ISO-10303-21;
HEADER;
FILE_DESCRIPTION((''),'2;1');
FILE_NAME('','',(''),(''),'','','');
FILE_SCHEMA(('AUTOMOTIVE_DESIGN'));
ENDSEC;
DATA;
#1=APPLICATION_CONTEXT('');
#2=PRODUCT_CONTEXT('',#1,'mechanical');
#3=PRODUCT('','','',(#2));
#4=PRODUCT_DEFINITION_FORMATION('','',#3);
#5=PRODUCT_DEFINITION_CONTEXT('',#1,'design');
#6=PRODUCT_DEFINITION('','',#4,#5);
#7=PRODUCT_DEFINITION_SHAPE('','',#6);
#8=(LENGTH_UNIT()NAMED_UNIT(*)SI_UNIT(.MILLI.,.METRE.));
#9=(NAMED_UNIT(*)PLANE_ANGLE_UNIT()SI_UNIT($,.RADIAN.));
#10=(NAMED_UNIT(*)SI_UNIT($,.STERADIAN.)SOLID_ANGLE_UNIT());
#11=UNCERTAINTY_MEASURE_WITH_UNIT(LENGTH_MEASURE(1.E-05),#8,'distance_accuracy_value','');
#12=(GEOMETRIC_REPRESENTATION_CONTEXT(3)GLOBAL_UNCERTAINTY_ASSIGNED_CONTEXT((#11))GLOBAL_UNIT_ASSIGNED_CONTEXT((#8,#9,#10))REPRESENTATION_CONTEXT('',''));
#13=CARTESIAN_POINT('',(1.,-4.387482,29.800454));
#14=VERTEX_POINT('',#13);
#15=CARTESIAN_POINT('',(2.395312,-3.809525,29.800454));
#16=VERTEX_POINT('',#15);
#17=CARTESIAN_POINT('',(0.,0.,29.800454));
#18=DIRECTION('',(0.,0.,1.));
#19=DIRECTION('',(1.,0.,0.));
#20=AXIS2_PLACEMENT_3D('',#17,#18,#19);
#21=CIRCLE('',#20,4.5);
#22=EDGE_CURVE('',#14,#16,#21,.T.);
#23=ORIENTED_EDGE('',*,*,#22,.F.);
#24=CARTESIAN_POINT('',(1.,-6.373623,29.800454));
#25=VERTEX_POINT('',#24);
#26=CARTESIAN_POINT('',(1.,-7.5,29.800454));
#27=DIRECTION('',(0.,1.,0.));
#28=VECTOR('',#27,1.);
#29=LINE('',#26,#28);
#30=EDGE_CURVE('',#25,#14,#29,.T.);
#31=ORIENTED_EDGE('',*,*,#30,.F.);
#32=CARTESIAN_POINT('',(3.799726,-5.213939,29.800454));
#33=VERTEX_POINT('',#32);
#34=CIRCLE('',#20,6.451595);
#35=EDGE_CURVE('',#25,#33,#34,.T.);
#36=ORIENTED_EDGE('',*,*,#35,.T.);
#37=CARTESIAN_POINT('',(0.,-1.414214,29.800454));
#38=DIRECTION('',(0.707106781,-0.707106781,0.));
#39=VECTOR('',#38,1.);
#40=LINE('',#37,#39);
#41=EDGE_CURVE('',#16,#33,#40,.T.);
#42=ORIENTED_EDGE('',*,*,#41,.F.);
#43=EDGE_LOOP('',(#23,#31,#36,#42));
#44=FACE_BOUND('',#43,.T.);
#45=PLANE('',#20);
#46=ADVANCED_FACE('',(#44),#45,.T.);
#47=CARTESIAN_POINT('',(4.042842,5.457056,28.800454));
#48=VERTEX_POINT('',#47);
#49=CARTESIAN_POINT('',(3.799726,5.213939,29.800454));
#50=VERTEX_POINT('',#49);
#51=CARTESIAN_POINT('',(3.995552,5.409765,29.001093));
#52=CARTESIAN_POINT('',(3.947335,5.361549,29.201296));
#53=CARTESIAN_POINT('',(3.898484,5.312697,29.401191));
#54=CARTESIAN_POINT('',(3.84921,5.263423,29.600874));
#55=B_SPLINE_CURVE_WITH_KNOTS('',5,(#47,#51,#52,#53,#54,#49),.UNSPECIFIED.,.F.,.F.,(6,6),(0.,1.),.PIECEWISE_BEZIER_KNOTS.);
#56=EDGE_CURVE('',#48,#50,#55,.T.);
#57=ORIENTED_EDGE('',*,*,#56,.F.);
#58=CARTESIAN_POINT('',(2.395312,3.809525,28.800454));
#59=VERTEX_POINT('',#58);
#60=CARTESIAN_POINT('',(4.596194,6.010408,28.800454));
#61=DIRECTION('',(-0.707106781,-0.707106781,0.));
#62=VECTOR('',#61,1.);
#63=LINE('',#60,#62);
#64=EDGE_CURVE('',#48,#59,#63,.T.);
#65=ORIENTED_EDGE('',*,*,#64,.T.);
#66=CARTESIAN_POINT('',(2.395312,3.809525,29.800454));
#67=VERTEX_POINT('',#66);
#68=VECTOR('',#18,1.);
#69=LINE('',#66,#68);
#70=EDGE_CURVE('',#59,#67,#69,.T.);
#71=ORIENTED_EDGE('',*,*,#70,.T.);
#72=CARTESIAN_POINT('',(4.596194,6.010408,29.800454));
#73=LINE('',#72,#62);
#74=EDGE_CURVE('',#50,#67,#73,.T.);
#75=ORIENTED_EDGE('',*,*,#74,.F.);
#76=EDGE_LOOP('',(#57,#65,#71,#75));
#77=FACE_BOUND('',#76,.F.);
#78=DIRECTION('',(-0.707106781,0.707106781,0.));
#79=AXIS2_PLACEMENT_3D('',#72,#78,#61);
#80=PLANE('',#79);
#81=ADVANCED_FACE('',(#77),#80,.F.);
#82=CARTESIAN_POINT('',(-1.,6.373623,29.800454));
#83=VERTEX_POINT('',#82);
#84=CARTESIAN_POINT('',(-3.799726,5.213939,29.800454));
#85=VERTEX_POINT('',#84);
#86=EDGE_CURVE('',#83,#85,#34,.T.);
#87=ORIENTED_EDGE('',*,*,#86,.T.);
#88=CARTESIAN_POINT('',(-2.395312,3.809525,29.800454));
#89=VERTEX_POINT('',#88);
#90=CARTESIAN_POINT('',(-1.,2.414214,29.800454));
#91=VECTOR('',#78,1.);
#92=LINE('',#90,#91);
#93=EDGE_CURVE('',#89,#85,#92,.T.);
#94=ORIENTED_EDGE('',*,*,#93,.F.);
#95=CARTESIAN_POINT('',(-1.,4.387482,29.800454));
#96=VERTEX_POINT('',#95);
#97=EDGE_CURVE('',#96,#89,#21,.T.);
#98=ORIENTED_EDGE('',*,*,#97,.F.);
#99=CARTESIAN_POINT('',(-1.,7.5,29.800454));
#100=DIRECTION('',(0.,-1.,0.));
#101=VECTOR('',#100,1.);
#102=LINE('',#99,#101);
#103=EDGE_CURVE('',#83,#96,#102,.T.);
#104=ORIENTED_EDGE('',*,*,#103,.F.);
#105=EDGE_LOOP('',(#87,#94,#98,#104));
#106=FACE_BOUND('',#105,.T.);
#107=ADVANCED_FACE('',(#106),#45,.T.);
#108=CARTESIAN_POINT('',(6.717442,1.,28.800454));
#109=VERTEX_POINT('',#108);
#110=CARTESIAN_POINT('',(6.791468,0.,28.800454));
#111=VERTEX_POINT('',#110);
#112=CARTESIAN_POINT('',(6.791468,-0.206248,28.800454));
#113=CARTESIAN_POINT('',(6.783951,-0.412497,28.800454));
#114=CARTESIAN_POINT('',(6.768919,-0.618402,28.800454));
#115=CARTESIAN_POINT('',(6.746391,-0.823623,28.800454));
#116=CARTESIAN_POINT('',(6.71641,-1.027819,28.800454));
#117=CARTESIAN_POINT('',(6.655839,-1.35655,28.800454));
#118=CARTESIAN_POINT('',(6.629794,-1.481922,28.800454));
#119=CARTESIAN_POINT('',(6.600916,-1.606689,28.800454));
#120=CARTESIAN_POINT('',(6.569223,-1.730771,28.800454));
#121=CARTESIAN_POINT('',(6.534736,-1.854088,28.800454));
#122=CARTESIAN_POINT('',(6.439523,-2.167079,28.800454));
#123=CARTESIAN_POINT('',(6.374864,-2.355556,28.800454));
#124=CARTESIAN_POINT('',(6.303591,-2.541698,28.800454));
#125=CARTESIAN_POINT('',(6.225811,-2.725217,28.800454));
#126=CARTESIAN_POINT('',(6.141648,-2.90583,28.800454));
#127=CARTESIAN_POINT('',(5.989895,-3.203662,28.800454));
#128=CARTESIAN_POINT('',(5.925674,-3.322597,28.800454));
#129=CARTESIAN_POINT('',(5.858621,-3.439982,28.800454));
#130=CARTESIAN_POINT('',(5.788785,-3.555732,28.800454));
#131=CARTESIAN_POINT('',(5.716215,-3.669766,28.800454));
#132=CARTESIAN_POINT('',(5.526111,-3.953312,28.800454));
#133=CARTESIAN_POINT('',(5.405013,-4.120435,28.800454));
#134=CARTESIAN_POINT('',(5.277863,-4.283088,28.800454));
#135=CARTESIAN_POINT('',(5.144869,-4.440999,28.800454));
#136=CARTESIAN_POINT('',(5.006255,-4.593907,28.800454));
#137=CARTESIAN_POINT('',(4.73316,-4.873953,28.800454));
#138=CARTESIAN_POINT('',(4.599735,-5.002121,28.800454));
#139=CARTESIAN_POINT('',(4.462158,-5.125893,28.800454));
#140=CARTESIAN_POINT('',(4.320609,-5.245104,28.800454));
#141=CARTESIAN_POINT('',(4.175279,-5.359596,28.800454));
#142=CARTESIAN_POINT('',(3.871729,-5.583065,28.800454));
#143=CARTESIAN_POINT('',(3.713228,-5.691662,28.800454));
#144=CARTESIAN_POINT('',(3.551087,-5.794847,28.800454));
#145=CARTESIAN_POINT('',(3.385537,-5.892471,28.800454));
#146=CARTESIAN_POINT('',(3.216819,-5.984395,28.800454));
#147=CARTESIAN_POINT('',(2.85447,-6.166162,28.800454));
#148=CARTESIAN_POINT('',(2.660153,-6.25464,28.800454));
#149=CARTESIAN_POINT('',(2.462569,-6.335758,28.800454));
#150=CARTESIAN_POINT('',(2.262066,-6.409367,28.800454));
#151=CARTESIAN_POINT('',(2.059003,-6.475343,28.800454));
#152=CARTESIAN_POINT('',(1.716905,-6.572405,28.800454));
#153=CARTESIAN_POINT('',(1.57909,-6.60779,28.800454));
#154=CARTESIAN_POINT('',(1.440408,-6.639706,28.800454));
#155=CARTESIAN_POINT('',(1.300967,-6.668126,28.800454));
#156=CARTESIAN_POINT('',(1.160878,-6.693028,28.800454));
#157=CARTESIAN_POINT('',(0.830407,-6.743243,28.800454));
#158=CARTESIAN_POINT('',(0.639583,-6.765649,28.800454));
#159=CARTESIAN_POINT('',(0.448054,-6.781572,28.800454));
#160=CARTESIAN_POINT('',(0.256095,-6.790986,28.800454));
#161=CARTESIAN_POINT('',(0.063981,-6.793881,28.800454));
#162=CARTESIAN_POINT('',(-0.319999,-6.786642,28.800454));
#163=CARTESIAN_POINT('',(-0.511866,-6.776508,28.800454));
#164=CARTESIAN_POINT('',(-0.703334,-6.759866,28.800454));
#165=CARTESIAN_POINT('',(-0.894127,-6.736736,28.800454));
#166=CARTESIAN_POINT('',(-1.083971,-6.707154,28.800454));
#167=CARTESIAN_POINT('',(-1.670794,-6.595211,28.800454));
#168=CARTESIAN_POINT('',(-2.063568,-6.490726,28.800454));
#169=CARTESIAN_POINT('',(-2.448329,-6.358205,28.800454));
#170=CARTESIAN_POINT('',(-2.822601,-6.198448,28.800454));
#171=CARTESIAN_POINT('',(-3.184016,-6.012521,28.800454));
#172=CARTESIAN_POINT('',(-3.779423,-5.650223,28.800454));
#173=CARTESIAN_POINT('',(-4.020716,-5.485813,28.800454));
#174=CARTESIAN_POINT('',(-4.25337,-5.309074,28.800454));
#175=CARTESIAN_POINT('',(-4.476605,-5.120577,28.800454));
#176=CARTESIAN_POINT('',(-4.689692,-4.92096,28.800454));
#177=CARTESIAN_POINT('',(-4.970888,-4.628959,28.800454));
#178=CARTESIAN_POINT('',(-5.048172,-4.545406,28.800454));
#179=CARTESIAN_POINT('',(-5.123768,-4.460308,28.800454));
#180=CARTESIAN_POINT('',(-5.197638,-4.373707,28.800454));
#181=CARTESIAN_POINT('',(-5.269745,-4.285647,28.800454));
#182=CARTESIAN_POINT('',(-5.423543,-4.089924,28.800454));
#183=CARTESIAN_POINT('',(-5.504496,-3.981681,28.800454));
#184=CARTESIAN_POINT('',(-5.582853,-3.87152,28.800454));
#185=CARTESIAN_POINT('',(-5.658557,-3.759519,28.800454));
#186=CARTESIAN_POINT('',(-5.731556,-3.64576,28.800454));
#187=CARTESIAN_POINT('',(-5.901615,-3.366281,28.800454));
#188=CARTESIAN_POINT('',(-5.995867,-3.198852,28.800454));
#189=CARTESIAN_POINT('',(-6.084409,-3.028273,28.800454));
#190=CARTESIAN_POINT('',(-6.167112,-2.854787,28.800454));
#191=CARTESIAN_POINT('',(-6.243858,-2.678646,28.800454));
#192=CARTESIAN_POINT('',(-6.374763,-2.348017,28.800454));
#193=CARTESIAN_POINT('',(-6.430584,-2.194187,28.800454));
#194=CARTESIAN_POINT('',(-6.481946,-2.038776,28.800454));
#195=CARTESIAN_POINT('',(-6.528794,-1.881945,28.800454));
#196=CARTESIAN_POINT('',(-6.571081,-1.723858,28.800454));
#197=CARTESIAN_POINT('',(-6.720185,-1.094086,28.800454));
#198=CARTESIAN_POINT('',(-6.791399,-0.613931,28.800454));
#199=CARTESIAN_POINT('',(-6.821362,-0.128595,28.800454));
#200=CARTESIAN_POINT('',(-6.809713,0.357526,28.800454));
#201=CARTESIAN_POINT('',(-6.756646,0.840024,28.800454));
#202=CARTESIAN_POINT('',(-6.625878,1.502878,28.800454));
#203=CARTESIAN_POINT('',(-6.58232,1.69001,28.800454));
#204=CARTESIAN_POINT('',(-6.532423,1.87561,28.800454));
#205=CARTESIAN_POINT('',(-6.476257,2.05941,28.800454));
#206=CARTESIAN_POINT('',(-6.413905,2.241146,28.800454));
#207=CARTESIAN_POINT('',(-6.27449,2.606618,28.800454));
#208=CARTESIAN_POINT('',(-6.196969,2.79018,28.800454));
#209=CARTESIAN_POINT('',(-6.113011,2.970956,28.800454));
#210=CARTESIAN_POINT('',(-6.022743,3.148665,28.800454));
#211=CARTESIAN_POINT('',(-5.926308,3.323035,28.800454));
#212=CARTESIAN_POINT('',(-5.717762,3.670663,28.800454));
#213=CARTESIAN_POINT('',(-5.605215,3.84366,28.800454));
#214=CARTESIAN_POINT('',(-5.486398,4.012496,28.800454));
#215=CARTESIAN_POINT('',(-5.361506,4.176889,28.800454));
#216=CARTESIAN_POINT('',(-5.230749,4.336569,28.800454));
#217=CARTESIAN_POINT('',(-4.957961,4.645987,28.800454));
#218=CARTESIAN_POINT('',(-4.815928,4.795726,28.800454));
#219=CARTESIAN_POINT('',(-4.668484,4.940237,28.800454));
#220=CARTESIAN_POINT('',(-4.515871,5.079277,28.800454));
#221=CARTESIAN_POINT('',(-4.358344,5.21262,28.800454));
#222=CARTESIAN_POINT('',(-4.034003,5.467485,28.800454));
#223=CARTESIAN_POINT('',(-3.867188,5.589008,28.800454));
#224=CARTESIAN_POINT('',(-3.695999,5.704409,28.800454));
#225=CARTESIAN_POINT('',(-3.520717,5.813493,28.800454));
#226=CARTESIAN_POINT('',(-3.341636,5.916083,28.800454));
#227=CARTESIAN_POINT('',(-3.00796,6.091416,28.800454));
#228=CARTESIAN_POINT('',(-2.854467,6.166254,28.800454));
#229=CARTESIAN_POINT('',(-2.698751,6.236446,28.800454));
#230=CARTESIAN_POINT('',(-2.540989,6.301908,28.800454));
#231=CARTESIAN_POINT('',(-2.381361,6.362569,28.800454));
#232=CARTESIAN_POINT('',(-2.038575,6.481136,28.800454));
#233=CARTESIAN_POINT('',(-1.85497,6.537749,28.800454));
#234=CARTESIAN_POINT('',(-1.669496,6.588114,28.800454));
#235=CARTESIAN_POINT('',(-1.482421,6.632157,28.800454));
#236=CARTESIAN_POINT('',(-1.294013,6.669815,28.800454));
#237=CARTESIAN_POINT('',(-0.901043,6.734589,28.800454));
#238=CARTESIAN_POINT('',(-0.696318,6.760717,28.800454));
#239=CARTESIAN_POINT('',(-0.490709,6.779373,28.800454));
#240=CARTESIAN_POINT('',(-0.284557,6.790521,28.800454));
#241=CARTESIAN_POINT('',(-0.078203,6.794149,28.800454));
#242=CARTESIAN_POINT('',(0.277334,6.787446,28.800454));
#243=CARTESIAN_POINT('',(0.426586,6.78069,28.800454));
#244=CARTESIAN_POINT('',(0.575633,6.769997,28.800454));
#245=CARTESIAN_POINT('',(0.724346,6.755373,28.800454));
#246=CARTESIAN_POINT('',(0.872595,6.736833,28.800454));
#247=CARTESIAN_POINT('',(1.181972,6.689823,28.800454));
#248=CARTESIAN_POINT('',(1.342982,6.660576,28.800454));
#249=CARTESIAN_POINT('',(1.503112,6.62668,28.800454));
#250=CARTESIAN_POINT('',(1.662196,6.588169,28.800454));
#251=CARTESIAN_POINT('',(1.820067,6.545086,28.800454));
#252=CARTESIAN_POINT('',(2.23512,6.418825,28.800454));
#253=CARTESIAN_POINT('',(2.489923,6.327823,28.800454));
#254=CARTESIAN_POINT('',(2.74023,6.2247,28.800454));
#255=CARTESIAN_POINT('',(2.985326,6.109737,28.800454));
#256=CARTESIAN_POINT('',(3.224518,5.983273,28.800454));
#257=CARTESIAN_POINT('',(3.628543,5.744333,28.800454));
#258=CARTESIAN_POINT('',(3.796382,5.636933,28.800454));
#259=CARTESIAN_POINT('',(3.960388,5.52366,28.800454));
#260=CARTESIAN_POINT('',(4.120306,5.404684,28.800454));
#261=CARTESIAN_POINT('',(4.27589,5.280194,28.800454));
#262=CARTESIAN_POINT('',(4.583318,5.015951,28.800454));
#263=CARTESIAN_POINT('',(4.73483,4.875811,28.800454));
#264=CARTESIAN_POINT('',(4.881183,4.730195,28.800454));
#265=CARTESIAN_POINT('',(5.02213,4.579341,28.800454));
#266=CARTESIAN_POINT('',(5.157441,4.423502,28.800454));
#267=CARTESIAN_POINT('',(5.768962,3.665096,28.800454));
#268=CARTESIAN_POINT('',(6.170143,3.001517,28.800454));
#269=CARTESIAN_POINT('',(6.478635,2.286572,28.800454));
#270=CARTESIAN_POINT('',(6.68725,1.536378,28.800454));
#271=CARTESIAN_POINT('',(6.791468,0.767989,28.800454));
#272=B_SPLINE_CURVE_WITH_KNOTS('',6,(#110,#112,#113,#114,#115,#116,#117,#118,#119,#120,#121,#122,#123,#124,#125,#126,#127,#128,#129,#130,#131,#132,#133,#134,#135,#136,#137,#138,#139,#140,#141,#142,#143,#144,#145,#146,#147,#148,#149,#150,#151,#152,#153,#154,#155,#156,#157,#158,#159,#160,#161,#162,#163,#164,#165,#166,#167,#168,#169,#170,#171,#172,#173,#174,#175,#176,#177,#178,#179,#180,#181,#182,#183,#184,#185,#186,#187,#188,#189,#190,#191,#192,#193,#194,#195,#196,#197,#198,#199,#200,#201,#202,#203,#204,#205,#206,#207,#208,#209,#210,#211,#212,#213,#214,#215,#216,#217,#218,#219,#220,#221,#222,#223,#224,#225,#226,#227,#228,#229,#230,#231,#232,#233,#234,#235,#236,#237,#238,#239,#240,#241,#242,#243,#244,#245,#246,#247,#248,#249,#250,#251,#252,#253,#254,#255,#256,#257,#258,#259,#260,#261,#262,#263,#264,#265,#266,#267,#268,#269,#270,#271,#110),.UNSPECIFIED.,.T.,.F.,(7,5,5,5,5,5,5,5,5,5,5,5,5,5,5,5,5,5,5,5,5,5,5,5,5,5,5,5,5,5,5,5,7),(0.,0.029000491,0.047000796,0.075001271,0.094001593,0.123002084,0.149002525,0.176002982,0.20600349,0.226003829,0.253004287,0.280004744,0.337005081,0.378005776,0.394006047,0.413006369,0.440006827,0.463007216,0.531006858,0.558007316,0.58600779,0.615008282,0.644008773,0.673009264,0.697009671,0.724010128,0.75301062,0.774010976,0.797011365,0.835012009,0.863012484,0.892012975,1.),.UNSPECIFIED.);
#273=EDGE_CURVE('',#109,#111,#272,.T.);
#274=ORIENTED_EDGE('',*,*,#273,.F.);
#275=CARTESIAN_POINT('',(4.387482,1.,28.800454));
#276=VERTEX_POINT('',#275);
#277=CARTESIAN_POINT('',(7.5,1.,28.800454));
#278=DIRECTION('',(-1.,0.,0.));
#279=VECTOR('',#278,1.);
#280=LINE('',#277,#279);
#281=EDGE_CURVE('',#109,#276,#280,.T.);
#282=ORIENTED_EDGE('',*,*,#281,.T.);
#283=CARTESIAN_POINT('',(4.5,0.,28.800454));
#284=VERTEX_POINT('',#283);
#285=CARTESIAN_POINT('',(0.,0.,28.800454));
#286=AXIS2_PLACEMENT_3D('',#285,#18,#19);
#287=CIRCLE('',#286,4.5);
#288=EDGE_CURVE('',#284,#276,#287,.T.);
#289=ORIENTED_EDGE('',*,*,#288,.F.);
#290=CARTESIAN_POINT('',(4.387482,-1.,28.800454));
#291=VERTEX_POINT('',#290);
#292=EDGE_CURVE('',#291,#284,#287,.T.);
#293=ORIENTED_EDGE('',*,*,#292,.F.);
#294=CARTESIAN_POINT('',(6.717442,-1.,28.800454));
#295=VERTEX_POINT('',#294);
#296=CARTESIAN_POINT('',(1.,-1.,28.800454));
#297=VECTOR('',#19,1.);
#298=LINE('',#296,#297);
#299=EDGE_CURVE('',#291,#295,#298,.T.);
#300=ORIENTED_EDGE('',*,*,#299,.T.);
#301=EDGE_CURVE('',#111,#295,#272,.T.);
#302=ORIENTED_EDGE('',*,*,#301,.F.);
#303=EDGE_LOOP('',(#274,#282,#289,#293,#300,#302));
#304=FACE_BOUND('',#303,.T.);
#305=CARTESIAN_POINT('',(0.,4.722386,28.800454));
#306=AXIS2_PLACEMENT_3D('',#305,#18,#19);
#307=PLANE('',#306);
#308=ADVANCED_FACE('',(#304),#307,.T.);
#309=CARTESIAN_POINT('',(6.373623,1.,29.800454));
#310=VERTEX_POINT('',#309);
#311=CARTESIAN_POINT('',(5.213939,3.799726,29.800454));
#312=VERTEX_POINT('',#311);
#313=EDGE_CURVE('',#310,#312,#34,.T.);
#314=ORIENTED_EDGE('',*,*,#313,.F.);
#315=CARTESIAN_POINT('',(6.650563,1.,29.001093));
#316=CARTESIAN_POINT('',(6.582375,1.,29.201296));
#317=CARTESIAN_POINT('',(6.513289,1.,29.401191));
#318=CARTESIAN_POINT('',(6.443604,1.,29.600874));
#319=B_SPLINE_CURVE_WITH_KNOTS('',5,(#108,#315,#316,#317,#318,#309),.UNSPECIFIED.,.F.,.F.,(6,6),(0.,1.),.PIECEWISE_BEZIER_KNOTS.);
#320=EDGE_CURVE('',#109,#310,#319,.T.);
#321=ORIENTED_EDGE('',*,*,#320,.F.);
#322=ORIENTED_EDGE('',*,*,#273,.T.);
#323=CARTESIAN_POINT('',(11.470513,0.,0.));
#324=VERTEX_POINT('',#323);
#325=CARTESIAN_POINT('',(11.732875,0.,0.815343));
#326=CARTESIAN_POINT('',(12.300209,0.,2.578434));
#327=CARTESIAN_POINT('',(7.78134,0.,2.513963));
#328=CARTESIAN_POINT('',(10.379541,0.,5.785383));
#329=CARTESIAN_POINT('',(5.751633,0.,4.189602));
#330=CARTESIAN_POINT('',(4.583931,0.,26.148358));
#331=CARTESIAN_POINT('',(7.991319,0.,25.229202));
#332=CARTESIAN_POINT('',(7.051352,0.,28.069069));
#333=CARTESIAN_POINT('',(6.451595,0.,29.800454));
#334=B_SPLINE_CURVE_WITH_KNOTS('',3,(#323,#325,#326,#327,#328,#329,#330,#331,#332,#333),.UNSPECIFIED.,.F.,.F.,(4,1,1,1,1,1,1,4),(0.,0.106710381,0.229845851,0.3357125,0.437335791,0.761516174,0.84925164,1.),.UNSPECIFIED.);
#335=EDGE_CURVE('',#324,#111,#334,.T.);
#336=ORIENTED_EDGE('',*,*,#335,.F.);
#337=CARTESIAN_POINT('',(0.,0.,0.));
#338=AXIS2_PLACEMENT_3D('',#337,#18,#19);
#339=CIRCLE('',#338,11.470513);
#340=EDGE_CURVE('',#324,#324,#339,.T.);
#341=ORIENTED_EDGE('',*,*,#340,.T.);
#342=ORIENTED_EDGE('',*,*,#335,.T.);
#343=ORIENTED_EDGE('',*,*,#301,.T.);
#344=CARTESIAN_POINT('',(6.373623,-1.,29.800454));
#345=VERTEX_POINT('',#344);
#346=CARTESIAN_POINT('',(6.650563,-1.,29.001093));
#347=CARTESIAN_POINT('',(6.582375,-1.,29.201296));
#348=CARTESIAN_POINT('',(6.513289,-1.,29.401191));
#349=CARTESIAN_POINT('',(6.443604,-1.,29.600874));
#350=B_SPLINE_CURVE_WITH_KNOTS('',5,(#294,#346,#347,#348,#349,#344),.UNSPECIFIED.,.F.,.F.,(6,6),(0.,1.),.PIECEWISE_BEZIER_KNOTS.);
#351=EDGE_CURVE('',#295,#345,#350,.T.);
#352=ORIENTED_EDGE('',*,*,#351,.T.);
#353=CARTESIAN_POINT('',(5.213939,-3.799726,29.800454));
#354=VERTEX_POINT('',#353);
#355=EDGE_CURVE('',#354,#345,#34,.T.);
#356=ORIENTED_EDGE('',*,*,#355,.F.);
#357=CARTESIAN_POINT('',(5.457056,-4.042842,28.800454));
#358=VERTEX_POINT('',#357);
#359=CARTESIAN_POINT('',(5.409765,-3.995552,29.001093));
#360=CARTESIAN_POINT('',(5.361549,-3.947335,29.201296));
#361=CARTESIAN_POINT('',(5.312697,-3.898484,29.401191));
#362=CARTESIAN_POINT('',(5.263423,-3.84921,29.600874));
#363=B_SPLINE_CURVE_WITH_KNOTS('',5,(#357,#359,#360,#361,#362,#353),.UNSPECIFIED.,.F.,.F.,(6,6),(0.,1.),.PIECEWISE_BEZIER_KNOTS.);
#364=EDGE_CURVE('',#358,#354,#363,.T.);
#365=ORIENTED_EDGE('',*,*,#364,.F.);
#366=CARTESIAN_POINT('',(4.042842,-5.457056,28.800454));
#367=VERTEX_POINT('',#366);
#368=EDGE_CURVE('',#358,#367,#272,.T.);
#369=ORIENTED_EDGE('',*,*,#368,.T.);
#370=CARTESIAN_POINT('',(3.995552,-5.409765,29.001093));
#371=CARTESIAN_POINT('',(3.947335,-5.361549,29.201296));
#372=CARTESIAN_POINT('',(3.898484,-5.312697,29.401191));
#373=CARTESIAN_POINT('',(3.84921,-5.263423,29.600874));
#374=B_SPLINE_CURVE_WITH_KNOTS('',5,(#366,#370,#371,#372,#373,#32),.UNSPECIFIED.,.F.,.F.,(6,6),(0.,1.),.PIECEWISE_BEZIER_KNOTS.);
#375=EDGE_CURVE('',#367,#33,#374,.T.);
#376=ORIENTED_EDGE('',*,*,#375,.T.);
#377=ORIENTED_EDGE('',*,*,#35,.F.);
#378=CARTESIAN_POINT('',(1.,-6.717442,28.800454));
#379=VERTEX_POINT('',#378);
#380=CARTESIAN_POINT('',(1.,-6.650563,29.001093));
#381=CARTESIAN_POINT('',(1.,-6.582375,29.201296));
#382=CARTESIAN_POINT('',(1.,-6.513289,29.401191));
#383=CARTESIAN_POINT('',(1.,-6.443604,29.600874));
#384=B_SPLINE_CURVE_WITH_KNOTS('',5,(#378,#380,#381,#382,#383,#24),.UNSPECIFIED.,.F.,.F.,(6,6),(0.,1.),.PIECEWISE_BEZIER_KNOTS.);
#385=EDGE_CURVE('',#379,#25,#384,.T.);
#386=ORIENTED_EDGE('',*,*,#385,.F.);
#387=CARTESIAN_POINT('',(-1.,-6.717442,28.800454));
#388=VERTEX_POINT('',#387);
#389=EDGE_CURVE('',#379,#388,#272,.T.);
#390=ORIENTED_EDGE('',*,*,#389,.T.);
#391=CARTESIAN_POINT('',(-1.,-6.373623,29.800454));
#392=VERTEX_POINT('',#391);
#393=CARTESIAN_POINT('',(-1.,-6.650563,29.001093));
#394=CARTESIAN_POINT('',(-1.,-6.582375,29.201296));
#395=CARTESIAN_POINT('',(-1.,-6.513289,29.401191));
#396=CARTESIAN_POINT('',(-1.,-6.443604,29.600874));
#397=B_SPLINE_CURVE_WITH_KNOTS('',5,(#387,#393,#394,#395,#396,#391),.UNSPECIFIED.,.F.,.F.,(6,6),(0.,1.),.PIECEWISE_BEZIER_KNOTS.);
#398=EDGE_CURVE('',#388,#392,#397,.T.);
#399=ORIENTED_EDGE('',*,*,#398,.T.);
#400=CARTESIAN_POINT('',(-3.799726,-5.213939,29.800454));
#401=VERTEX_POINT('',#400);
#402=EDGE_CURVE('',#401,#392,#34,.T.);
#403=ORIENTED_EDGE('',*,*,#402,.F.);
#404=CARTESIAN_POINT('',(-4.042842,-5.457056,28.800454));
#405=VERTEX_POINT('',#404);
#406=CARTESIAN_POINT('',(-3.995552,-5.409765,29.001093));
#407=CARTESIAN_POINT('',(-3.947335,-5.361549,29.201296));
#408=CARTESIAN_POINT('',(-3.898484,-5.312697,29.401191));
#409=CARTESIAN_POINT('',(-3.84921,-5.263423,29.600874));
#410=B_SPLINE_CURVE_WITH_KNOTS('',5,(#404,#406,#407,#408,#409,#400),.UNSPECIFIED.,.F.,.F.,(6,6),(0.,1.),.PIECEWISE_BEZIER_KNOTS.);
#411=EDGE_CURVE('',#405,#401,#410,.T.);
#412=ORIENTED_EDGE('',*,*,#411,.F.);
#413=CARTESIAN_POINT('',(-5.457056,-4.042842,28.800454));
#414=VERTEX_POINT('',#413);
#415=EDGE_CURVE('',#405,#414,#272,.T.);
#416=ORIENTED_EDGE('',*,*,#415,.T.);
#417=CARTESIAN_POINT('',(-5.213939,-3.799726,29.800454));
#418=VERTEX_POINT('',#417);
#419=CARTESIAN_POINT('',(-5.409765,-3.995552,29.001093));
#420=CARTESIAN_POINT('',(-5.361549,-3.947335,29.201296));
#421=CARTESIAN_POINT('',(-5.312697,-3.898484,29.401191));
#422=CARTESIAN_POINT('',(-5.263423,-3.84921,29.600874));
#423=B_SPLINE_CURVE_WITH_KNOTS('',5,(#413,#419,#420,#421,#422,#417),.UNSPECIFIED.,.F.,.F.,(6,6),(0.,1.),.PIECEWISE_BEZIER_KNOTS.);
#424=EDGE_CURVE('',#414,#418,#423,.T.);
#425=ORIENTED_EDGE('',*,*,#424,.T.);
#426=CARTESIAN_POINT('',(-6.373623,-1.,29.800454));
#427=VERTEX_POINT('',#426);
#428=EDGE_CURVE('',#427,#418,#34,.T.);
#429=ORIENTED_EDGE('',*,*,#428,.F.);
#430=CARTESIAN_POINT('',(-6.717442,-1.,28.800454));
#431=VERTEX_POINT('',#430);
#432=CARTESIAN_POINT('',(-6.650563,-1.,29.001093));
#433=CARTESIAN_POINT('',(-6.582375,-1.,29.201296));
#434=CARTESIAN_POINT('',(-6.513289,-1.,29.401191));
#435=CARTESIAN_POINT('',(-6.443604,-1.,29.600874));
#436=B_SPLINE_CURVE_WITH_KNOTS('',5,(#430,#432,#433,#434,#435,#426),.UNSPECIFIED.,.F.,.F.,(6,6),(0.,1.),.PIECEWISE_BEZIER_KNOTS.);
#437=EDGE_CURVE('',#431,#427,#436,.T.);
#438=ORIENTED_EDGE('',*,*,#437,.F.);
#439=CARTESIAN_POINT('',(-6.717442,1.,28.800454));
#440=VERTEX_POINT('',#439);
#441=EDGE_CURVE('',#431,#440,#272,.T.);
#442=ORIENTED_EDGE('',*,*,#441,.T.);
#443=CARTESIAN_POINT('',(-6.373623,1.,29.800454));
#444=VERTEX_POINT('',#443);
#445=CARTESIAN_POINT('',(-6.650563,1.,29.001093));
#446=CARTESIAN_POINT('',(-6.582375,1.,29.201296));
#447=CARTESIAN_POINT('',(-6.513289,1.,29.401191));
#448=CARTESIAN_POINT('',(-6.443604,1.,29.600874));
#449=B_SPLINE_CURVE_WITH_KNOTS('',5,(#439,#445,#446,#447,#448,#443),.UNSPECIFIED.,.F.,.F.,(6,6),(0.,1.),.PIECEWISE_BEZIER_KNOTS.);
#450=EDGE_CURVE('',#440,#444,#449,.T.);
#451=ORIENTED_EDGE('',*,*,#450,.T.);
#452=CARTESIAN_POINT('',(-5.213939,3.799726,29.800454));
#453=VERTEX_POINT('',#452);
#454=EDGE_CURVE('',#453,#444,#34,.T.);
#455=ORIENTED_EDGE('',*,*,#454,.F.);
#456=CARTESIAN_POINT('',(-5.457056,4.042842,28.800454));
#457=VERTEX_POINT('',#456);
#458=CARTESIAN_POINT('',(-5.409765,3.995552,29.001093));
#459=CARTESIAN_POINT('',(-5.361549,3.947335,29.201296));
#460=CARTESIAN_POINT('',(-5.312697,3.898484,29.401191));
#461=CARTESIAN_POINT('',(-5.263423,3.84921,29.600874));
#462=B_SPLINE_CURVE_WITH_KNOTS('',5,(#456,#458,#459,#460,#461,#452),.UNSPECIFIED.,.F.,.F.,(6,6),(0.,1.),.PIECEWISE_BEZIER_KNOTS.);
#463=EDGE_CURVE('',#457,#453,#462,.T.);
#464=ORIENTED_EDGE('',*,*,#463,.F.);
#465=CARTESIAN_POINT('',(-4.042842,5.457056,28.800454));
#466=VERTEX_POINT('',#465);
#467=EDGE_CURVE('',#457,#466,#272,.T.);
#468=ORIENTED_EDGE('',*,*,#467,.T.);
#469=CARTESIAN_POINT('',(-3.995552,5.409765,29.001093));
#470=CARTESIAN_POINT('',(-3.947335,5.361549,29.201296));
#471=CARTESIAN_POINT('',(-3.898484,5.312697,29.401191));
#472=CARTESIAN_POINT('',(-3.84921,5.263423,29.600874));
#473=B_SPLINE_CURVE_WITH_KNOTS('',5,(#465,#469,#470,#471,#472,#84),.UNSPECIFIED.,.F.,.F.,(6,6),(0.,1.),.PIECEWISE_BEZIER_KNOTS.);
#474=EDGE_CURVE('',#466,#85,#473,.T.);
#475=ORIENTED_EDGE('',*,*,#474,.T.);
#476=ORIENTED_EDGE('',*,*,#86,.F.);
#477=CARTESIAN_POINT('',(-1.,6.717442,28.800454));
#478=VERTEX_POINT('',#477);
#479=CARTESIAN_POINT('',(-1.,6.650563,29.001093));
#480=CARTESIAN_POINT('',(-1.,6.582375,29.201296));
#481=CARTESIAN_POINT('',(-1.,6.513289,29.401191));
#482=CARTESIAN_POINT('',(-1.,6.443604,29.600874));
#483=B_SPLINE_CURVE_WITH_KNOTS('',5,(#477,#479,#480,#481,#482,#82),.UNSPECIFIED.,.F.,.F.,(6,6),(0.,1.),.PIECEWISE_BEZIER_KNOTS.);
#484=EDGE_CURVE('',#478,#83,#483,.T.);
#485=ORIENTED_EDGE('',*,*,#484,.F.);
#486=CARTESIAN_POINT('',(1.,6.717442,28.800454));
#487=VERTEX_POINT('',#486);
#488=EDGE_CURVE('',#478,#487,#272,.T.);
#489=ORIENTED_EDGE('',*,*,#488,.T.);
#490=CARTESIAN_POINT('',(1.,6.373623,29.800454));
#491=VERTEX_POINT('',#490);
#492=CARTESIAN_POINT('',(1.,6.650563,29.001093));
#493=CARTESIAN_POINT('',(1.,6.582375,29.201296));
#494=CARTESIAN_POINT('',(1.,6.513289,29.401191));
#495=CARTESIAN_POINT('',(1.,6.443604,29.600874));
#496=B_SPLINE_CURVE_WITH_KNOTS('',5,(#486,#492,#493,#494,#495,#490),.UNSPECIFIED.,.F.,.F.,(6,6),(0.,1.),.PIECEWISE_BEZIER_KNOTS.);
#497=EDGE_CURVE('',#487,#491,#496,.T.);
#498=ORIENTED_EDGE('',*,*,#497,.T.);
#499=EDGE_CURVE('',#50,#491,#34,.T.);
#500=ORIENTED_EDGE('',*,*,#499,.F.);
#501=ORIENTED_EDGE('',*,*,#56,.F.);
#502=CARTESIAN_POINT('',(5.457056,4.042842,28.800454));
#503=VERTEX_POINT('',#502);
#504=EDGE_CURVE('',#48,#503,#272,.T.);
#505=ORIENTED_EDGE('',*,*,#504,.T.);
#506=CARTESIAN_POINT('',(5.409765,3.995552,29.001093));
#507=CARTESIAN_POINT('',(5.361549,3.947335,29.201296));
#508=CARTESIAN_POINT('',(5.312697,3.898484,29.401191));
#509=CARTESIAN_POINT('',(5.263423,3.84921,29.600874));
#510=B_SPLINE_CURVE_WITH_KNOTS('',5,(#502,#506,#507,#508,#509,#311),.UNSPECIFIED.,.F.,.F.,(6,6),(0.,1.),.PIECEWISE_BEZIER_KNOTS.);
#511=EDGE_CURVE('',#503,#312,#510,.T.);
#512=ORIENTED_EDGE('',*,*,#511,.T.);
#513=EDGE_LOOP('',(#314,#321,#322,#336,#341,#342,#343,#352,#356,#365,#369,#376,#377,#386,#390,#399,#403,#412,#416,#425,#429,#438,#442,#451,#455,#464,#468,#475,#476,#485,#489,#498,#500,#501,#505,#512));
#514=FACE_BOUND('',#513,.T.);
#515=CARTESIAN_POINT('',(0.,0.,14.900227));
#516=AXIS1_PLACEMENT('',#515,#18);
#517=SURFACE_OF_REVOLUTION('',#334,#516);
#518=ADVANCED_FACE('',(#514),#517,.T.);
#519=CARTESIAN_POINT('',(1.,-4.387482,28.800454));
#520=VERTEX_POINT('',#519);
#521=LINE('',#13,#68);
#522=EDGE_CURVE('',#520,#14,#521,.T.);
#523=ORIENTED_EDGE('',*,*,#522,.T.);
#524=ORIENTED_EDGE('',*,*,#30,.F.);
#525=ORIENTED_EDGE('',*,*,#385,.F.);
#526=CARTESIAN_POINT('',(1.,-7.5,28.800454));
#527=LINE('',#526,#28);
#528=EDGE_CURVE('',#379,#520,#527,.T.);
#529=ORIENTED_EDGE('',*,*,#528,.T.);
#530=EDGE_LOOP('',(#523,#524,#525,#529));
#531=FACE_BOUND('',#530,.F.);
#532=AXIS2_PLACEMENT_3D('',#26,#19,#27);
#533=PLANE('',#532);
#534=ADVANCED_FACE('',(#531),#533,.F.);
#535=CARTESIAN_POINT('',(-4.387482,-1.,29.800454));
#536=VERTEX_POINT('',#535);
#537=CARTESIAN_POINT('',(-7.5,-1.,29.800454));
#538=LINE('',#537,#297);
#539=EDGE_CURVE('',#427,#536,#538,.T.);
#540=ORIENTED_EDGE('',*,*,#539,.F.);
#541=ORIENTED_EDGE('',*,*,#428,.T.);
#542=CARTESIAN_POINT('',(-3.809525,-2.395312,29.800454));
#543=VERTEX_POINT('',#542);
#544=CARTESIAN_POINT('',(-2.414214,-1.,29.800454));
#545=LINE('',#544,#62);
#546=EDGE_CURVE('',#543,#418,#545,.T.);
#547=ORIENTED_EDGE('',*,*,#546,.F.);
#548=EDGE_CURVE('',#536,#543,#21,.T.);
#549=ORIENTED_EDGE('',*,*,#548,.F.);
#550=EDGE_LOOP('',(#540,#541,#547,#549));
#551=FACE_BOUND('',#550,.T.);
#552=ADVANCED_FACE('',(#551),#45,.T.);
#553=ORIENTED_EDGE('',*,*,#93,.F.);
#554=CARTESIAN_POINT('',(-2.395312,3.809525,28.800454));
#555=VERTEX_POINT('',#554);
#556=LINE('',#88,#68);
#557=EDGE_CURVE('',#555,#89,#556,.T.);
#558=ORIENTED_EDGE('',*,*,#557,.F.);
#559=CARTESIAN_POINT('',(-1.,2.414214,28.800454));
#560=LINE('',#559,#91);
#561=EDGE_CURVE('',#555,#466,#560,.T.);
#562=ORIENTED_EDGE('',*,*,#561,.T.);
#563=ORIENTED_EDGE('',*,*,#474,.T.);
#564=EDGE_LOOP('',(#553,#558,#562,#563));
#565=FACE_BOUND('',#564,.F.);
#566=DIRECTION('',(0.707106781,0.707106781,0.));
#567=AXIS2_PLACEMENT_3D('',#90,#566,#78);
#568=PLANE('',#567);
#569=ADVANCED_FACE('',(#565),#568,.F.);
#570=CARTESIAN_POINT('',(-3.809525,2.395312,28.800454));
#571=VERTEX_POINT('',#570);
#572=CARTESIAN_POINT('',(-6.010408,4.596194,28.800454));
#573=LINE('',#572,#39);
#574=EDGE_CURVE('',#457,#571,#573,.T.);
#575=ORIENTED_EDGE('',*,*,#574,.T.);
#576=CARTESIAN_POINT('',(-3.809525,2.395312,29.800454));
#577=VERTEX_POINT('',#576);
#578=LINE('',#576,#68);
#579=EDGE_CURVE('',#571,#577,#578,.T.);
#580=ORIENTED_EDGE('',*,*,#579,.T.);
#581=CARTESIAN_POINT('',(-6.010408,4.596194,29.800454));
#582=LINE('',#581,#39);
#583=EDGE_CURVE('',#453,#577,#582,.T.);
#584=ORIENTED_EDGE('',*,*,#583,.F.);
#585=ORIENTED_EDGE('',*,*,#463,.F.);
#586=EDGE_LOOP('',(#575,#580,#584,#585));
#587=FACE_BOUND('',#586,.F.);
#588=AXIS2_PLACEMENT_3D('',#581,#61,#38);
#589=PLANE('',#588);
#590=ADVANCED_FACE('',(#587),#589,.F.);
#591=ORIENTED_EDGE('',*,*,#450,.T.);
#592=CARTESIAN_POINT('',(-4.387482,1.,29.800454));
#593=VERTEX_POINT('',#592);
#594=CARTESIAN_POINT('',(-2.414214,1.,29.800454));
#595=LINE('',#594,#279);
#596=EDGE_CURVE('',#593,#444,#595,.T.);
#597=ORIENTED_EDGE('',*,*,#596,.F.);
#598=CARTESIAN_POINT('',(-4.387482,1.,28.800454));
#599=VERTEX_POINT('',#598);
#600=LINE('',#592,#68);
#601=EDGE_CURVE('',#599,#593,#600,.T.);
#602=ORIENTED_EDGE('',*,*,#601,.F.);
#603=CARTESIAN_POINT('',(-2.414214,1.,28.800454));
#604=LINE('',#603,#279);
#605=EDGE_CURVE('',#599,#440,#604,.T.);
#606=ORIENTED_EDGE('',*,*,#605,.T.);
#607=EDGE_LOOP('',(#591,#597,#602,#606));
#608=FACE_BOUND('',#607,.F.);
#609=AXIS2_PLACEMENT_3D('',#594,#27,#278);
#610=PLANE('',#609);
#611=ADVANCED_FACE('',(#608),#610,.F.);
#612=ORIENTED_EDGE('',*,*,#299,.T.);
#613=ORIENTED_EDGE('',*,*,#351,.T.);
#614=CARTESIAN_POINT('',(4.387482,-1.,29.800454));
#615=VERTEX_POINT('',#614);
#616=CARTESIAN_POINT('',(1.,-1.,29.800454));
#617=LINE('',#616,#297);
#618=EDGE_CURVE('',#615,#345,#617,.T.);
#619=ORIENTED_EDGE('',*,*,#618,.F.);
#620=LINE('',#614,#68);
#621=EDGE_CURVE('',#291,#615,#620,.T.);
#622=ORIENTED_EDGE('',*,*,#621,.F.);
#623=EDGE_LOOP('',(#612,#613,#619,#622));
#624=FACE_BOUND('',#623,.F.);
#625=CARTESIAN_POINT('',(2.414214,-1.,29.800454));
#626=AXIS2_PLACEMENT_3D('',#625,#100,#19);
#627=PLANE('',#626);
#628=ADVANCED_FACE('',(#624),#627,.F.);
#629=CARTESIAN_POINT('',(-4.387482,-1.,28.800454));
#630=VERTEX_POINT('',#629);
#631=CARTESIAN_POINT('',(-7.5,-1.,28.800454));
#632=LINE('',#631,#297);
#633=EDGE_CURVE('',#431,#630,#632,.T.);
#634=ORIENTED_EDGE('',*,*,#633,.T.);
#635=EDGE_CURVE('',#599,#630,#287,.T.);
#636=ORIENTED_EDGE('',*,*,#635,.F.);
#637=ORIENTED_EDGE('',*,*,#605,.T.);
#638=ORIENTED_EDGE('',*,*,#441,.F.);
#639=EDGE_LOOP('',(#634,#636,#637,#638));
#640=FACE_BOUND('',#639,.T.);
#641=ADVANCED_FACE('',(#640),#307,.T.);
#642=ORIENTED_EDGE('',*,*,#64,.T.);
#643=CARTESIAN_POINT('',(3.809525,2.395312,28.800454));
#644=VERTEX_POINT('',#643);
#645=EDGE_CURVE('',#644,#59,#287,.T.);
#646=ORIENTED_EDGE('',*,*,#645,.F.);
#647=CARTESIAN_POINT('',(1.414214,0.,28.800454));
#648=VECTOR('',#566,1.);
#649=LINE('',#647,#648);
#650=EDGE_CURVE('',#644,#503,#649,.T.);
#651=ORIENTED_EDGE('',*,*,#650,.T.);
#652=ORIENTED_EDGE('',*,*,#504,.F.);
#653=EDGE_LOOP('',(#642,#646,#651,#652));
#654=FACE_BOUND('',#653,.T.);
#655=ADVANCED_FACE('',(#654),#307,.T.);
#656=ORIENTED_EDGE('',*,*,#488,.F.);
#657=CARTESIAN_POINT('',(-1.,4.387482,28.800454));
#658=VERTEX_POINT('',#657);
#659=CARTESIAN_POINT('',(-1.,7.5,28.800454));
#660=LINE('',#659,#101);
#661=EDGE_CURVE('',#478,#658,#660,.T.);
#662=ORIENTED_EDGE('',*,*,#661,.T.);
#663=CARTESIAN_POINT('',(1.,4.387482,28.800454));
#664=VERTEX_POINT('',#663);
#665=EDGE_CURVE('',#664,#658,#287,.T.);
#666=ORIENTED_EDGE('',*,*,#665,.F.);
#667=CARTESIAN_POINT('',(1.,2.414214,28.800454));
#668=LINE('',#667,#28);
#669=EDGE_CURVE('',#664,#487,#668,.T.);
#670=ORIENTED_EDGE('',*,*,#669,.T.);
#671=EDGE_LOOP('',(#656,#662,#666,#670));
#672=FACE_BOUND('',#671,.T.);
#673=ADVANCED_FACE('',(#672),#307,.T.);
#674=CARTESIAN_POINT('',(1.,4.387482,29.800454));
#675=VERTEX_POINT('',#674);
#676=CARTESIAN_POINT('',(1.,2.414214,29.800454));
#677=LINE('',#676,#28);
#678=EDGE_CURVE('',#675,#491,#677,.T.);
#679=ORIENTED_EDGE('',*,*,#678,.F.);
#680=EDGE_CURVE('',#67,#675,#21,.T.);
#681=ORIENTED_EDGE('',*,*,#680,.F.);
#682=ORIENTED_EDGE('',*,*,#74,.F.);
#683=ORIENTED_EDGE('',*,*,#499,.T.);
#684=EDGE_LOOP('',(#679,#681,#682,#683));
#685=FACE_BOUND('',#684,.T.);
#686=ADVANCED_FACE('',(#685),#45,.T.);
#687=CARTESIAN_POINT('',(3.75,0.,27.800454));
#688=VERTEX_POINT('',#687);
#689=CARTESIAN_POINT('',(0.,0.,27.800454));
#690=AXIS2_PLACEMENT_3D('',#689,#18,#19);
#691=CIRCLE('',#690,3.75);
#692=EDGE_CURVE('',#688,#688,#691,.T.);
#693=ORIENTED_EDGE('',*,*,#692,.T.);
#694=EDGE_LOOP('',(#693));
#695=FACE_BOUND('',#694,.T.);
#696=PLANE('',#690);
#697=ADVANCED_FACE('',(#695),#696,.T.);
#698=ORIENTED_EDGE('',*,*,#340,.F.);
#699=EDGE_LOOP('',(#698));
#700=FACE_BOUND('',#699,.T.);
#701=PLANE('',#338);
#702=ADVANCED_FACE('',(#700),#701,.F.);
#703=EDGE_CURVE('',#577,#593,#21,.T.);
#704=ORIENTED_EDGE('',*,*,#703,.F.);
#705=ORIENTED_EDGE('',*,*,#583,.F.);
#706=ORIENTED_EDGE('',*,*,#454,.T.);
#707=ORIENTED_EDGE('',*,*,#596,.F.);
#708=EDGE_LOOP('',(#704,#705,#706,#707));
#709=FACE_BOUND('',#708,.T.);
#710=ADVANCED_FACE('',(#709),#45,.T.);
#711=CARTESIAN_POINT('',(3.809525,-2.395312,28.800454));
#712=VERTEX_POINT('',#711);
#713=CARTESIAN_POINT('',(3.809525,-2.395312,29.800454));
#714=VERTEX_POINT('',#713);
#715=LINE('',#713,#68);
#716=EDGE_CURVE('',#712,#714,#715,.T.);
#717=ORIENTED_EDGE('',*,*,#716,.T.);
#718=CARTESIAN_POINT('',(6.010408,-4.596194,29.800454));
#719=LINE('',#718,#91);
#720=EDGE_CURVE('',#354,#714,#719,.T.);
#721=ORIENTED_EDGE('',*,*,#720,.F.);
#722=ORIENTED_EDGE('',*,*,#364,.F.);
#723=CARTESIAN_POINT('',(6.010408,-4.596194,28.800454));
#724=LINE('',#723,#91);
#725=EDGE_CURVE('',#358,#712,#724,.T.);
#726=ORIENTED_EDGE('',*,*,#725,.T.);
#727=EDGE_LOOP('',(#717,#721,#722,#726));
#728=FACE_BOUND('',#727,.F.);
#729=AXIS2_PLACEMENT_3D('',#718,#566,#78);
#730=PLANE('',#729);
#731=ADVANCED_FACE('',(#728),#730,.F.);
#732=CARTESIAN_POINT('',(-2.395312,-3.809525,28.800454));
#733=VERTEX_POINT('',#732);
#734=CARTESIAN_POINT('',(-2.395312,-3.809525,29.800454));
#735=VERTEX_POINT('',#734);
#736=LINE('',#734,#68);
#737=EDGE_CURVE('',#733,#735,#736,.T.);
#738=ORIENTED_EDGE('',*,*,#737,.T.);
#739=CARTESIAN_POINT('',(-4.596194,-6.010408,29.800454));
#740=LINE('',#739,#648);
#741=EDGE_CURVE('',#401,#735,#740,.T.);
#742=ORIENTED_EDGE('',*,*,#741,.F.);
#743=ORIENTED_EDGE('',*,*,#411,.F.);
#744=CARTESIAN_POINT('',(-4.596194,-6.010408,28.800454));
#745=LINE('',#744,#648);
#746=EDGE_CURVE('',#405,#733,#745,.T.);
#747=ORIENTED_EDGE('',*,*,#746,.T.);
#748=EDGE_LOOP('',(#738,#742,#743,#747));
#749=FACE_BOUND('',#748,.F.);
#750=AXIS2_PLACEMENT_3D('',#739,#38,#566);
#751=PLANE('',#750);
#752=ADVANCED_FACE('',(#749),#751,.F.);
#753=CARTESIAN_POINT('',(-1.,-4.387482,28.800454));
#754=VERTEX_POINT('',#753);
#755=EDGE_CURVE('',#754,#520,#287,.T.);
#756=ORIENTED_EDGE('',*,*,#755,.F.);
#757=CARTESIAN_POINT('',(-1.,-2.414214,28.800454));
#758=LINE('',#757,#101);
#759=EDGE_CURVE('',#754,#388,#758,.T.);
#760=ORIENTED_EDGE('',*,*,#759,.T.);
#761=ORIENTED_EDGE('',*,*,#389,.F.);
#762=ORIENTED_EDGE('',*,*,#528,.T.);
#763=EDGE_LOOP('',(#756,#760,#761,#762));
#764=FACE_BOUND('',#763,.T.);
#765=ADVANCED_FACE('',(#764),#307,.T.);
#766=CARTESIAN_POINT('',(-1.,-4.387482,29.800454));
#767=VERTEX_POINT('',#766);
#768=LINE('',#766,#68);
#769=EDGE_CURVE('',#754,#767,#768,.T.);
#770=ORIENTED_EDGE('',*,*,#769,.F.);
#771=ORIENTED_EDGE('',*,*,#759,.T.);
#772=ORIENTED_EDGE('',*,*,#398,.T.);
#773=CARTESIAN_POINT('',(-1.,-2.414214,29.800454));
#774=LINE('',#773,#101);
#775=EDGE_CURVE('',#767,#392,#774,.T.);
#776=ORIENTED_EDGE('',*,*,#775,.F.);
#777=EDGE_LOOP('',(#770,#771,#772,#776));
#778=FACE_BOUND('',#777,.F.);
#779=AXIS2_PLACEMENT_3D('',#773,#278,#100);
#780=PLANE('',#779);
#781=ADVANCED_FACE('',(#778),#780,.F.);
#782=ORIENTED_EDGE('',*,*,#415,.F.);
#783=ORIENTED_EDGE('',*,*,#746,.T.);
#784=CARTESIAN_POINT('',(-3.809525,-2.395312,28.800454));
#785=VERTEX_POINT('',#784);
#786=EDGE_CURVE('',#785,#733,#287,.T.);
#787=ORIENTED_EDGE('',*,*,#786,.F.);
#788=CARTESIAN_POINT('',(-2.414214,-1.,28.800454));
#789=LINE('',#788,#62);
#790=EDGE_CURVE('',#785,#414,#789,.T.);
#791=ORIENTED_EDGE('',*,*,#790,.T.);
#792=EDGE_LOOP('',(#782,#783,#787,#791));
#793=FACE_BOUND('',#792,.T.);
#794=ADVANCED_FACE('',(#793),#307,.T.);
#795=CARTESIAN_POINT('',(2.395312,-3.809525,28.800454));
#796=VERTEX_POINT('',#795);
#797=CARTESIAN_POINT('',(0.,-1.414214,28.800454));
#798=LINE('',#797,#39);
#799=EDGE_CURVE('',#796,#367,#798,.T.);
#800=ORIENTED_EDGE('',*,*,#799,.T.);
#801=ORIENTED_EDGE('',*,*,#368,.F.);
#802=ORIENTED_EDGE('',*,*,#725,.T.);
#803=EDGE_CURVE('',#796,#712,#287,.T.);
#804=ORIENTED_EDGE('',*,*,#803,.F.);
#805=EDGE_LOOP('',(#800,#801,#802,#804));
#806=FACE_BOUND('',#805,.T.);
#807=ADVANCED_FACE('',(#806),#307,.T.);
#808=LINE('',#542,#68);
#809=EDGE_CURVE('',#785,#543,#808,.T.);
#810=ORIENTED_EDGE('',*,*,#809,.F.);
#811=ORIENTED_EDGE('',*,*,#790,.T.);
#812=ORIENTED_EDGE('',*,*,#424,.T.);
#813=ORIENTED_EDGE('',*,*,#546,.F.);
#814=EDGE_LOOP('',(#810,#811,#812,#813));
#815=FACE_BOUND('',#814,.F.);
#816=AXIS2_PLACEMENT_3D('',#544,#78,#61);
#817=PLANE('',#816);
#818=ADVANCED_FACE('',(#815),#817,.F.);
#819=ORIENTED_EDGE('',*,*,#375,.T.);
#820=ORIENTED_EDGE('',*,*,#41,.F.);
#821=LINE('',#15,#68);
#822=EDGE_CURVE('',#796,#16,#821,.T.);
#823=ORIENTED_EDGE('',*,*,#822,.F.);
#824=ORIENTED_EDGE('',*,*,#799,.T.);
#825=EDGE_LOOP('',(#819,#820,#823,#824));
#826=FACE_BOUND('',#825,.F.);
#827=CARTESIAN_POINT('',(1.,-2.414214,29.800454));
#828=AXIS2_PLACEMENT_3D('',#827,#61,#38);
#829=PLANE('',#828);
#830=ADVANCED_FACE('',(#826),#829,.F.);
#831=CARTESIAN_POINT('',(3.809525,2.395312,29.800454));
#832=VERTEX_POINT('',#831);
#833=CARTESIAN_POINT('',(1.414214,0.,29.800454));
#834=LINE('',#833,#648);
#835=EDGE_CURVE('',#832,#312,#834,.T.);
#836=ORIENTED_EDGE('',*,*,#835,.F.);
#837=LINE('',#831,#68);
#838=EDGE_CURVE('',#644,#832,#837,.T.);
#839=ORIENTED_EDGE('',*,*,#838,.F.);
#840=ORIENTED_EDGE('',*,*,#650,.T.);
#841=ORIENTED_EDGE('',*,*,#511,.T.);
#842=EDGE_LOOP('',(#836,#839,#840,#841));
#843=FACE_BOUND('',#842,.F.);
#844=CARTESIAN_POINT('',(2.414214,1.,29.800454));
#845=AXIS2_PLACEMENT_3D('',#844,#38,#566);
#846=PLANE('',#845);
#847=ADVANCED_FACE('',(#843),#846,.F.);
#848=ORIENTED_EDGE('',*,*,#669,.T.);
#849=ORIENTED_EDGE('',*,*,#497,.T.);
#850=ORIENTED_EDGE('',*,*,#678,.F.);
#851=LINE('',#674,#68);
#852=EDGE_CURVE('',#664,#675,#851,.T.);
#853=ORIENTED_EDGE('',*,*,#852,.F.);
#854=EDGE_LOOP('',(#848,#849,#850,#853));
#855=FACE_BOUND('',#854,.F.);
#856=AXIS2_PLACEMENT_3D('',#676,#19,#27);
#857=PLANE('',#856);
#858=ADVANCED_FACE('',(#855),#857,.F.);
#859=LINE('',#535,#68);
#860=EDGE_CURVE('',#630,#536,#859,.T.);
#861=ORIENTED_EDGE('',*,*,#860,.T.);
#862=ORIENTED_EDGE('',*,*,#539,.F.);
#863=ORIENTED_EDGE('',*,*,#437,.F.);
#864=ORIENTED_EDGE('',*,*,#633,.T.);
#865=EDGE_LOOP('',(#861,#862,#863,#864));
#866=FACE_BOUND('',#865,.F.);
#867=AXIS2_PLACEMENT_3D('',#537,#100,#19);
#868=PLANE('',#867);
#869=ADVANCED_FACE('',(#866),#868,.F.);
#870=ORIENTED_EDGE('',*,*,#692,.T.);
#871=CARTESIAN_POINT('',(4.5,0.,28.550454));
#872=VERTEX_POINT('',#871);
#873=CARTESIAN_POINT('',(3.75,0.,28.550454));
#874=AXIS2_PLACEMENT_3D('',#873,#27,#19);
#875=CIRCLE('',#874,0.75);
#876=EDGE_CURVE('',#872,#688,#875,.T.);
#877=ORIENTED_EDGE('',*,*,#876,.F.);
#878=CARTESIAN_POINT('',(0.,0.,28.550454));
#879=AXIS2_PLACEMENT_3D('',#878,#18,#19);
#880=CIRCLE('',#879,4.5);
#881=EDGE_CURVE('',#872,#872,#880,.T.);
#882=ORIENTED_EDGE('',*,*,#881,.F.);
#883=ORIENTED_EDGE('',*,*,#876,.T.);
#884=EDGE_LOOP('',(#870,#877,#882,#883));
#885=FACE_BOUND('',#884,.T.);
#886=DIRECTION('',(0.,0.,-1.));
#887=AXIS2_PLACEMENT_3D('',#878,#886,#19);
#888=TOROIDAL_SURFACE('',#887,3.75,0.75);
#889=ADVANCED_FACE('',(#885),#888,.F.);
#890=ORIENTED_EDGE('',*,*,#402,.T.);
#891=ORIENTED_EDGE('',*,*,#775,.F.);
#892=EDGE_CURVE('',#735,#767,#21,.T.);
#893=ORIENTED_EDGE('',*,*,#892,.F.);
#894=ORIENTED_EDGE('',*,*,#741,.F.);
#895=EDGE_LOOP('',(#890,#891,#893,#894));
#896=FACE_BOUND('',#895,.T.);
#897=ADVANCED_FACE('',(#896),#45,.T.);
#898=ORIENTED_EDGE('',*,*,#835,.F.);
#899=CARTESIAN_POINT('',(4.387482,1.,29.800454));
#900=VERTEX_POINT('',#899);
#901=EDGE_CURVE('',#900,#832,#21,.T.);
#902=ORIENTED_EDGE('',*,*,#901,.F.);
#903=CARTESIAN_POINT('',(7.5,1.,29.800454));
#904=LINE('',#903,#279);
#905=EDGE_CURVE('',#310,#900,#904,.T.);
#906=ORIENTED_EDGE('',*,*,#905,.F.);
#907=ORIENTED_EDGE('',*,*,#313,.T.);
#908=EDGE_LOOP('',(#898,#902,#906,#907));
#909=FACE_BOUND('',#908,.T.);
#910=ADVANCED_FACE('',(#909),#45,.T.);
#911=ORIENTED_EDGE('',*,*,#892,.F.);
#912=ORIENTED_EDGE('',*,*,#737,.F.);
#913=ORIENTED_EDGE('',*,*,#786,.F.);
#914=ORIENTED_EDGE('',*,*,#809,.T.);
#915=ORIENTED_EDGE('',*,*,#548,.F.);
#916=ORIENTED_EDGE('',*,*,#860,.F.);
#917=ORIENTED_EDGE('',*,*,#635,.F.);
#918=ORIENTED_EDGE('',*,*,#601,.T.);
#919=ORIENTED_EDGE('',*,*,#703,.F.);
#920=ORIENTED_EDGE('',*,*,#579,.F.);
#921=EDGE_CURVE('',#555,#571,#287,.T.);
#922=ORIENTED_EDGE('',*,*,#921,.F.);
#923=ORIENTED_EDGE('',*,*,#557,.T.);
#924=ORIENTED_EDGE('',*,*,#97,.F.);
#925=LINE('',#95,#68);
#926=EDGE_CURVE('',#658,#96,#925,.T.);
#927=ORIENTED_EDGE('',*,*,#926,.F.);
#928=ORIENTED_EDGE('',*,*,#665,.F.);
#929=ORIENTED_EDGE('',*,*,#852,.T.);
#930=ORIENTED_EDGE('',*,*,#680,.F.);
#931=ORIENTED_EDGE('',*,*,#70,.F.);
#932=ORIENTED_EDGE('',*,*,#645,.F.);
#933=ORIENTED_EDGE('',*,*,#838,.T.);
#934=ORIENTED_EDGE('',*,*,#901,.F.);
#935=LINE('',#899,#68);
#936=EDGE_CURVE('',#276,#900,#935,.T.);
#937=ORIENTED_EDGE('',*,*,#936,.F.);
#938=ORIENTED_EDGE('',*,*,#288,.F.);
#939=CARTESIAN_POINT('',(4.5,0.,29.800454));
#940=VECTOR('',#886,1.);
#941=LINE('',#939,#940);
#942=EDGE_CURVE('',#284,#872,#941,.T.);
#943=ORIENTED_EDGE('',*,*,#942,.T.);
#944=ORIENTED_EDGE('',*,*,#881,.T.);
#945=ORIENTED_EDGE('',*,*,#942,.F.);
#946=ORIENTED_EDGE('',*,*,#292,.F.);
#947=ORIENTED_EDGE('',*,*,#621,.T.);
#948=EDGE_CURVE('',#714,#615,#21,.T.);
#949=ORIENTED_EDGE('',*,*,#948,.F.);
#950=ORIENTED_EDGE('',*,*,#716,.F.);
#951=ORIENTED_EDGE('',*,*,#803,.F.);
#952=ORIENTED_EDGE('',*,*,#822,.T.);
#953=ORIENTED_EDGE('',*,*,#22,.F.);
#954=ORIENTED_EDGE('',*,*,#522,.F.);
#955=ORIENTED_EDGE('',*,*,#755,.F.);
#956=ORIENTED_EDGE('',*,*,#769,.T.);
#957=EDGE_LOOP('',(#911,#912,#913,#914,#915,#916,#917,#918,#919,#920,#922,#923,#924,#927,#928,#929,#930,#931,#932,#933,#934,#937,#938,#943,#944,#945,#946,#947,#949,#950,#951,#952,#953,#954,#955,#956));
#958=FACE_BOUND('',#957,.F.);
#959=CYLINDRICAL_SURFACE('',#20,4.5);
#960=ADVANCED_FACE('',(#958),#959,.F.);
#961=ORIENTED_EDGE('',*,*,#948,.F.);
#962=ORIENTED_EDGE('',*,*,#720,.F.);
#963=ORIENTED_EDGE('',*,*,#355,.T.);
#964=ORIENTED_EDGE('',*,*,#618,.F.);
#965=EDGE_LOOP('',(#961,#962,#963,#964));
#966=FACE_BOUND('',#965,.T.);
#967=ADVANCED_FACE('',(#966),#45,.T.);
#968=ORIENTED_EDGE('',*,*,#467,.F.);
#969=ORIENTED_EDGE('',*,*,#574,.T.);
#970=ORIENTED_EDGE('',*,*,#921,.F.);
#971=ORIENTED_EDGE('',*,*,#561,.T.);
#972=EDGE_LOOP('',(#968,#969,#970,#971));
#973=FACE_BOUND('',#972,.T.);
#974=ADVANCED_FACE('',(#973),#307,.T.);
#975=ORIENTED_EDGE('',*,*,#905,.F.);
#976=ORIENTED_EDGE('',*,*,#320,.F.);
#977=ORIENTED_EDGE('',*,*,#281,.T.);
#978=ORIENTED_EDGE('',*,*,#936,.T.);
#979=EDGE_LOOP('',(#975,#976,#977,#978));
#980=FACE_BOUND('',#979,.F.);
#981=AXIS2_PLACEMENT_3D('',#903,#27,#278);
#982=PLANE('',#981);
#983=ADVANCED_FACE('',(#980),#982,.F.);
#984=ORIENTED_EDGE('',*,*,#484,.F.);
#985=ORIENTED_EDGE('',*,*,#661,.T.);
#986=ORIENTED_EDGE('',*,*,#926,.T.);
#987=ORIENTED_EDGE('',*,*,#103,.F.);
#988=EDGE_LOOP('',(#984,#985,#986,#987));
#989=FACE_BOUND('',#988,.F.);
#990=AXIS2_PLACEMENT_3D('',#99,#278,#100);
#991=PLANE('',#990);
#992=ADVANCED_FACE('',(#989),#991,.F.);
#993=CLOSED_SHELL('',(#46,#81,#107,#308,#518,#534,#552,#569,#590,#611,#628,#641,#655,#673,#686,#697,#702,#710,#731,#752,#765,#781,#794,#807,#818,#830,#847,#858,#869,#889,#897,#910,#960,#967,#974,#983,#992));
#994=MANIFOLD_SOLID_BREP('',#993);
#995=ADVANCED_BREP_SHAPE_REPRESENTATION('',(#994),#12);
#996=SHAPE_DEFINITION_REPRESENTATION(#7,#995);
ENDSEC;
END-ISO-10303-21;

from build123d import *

# Parameters (mm, degrees)
F2_R     = 4.5
F3_DEPTH = 2
F5_DEPTH = 1
F6_R     = 0.75


with BuildPart() as f1:
    # F0 (on Front) → F1 (revolve)
    with BuildSketch(Plane.XZ):
        with BuildLine():
            Line((0, 29.8004541546), (0, 0))
            Line((0, 0), (11.4705134183, 0))
            add(Edge.make_bspline(
                [(11.4705134183, 0), (11.732875476, 0.8153426281), (12.3002087209, 2.5784339199), (7.7813398519, 2.5139627986), (10.3795413858, 5.785382592), (5.7516333208, 4.1896015586), (4.58393068, 26.1483576562), (7.9913187248, 25.2292024384), (7.0513523289, 28.0690694522), (6.4515948717, 29.8004541546)],
                knots=[0, 0, 0, 0, 0.1067103807, 0.2298458507, 0.3357124996, 0.4373357909, 0.7615161745, 0.8492516397, 1, 1, 1, 1], degree=3))
            Line((6.4515948717, 29.8004541546), (0, 29.8004541546))
        make_face()
    revolve(axis=Axis((0, 0, 14.9002270773), (0, 0, 1)))

    # F2 (on face) → F3 (cut)
    with BuildSketch(Plane.XY.offset(29.8004541546)):
        Circle(F2_R)
    extrude(amount=-F3_DEPTH, mode=Mode.SUBTRACT)

    # F4 (on face) → F5 (cut)
    with BuildSketch(Plane.XY.offset(29.8004541546)):
        Polygon((1, 7.5), (-1, 7.5), (-1, 2.4142135624), (0, 1.4142135624), (1, 2.4142135624), align=None)
        Polygon((0, 1.4142135624), (-1, 2.4142135624), (-1, 1), (-0.4142135624, 1), align=None)
        Polygon((-1, 1), (-1, 2.4142135624), (-4.5961940777, 6.0104076401), (-6.0104076401, 4.5961940777), (-2.4142135624, 1), align=None)
        Polygon((4.5961940777, 6.0104076401), (1, 2.4142135624), (1, 1), (2.4142135624, 1), (6.0104076401, 4.5961940777), align=None)
        Polygon((1, 1), (1, 2.4142135624), (0, 1.4142135624), (0.4142135624, 1), align=None)
        Polygon((-1, 0.4142135624), (-1, 1), (-2.4142135624, 1), (-1.4142135624, 0), align=None)
        Polygon((2.4142135624, 1), (1, 1), (1, 0.4142135624), (1.4142135624, 0), align=None)
        Polygon((-1.4142135624, 0), (-2.4142135624, 1), (-7.5, 1), (-7.5, -1), (-2.4142135624, -1), align=None)
        Polygon((7.5, 1), (2.4142135624, 1), (1.4142135624, 0), (2.4142135624, -1), (7.5, -1), align=None)
        Polygon((-1, -1), (-1, -0.4142135624), (-1.4142135624, 0), (-2.4142135624, -1), align=None)
        Polygon((1.4142135624, 0), (1, -0.4142135624), (1, -1), (2.4142135624, -1), align=None)
        Polygon((-0.4142135624, -1), (-1, -1), (-1, -2.4142135624), (0, -1.4142135624), align=None)
        Polygon((-1, -2.4142135624), (-1, -1), (-2.4142135624, -1), (-6.0104076401, -4.5961940777), (-4.5961940777, -6.0104076401), align=None)
        Polygon((2.4142135624, -1), (1, -1), (1, -2.4142135624), (4.5961940777, -6.0104076401), (6.0104076401, -4.5961940777), align=None)
        Polygon((1, -2.4142135624), (1, -1), (0.4142135624, -1), (0, -1.4142135624), align=None)
        Polygon((0, -1.4142135624), (-1, -2.4142135624), (-1, -7.5), (1, -7.5), (1, -2.4142135624), align=None)
    extrude(amount=-F5_DEPTH, mode=Mode.SUBTRACT)

    # F6
    f6_edges = [f1.edges().sort_by_distance(p)[0] for p in [
        (-4.5, 0, 27.800454),
    ]]
    fillet(f6_edges, radius=F6_R)


solid = f1.part
